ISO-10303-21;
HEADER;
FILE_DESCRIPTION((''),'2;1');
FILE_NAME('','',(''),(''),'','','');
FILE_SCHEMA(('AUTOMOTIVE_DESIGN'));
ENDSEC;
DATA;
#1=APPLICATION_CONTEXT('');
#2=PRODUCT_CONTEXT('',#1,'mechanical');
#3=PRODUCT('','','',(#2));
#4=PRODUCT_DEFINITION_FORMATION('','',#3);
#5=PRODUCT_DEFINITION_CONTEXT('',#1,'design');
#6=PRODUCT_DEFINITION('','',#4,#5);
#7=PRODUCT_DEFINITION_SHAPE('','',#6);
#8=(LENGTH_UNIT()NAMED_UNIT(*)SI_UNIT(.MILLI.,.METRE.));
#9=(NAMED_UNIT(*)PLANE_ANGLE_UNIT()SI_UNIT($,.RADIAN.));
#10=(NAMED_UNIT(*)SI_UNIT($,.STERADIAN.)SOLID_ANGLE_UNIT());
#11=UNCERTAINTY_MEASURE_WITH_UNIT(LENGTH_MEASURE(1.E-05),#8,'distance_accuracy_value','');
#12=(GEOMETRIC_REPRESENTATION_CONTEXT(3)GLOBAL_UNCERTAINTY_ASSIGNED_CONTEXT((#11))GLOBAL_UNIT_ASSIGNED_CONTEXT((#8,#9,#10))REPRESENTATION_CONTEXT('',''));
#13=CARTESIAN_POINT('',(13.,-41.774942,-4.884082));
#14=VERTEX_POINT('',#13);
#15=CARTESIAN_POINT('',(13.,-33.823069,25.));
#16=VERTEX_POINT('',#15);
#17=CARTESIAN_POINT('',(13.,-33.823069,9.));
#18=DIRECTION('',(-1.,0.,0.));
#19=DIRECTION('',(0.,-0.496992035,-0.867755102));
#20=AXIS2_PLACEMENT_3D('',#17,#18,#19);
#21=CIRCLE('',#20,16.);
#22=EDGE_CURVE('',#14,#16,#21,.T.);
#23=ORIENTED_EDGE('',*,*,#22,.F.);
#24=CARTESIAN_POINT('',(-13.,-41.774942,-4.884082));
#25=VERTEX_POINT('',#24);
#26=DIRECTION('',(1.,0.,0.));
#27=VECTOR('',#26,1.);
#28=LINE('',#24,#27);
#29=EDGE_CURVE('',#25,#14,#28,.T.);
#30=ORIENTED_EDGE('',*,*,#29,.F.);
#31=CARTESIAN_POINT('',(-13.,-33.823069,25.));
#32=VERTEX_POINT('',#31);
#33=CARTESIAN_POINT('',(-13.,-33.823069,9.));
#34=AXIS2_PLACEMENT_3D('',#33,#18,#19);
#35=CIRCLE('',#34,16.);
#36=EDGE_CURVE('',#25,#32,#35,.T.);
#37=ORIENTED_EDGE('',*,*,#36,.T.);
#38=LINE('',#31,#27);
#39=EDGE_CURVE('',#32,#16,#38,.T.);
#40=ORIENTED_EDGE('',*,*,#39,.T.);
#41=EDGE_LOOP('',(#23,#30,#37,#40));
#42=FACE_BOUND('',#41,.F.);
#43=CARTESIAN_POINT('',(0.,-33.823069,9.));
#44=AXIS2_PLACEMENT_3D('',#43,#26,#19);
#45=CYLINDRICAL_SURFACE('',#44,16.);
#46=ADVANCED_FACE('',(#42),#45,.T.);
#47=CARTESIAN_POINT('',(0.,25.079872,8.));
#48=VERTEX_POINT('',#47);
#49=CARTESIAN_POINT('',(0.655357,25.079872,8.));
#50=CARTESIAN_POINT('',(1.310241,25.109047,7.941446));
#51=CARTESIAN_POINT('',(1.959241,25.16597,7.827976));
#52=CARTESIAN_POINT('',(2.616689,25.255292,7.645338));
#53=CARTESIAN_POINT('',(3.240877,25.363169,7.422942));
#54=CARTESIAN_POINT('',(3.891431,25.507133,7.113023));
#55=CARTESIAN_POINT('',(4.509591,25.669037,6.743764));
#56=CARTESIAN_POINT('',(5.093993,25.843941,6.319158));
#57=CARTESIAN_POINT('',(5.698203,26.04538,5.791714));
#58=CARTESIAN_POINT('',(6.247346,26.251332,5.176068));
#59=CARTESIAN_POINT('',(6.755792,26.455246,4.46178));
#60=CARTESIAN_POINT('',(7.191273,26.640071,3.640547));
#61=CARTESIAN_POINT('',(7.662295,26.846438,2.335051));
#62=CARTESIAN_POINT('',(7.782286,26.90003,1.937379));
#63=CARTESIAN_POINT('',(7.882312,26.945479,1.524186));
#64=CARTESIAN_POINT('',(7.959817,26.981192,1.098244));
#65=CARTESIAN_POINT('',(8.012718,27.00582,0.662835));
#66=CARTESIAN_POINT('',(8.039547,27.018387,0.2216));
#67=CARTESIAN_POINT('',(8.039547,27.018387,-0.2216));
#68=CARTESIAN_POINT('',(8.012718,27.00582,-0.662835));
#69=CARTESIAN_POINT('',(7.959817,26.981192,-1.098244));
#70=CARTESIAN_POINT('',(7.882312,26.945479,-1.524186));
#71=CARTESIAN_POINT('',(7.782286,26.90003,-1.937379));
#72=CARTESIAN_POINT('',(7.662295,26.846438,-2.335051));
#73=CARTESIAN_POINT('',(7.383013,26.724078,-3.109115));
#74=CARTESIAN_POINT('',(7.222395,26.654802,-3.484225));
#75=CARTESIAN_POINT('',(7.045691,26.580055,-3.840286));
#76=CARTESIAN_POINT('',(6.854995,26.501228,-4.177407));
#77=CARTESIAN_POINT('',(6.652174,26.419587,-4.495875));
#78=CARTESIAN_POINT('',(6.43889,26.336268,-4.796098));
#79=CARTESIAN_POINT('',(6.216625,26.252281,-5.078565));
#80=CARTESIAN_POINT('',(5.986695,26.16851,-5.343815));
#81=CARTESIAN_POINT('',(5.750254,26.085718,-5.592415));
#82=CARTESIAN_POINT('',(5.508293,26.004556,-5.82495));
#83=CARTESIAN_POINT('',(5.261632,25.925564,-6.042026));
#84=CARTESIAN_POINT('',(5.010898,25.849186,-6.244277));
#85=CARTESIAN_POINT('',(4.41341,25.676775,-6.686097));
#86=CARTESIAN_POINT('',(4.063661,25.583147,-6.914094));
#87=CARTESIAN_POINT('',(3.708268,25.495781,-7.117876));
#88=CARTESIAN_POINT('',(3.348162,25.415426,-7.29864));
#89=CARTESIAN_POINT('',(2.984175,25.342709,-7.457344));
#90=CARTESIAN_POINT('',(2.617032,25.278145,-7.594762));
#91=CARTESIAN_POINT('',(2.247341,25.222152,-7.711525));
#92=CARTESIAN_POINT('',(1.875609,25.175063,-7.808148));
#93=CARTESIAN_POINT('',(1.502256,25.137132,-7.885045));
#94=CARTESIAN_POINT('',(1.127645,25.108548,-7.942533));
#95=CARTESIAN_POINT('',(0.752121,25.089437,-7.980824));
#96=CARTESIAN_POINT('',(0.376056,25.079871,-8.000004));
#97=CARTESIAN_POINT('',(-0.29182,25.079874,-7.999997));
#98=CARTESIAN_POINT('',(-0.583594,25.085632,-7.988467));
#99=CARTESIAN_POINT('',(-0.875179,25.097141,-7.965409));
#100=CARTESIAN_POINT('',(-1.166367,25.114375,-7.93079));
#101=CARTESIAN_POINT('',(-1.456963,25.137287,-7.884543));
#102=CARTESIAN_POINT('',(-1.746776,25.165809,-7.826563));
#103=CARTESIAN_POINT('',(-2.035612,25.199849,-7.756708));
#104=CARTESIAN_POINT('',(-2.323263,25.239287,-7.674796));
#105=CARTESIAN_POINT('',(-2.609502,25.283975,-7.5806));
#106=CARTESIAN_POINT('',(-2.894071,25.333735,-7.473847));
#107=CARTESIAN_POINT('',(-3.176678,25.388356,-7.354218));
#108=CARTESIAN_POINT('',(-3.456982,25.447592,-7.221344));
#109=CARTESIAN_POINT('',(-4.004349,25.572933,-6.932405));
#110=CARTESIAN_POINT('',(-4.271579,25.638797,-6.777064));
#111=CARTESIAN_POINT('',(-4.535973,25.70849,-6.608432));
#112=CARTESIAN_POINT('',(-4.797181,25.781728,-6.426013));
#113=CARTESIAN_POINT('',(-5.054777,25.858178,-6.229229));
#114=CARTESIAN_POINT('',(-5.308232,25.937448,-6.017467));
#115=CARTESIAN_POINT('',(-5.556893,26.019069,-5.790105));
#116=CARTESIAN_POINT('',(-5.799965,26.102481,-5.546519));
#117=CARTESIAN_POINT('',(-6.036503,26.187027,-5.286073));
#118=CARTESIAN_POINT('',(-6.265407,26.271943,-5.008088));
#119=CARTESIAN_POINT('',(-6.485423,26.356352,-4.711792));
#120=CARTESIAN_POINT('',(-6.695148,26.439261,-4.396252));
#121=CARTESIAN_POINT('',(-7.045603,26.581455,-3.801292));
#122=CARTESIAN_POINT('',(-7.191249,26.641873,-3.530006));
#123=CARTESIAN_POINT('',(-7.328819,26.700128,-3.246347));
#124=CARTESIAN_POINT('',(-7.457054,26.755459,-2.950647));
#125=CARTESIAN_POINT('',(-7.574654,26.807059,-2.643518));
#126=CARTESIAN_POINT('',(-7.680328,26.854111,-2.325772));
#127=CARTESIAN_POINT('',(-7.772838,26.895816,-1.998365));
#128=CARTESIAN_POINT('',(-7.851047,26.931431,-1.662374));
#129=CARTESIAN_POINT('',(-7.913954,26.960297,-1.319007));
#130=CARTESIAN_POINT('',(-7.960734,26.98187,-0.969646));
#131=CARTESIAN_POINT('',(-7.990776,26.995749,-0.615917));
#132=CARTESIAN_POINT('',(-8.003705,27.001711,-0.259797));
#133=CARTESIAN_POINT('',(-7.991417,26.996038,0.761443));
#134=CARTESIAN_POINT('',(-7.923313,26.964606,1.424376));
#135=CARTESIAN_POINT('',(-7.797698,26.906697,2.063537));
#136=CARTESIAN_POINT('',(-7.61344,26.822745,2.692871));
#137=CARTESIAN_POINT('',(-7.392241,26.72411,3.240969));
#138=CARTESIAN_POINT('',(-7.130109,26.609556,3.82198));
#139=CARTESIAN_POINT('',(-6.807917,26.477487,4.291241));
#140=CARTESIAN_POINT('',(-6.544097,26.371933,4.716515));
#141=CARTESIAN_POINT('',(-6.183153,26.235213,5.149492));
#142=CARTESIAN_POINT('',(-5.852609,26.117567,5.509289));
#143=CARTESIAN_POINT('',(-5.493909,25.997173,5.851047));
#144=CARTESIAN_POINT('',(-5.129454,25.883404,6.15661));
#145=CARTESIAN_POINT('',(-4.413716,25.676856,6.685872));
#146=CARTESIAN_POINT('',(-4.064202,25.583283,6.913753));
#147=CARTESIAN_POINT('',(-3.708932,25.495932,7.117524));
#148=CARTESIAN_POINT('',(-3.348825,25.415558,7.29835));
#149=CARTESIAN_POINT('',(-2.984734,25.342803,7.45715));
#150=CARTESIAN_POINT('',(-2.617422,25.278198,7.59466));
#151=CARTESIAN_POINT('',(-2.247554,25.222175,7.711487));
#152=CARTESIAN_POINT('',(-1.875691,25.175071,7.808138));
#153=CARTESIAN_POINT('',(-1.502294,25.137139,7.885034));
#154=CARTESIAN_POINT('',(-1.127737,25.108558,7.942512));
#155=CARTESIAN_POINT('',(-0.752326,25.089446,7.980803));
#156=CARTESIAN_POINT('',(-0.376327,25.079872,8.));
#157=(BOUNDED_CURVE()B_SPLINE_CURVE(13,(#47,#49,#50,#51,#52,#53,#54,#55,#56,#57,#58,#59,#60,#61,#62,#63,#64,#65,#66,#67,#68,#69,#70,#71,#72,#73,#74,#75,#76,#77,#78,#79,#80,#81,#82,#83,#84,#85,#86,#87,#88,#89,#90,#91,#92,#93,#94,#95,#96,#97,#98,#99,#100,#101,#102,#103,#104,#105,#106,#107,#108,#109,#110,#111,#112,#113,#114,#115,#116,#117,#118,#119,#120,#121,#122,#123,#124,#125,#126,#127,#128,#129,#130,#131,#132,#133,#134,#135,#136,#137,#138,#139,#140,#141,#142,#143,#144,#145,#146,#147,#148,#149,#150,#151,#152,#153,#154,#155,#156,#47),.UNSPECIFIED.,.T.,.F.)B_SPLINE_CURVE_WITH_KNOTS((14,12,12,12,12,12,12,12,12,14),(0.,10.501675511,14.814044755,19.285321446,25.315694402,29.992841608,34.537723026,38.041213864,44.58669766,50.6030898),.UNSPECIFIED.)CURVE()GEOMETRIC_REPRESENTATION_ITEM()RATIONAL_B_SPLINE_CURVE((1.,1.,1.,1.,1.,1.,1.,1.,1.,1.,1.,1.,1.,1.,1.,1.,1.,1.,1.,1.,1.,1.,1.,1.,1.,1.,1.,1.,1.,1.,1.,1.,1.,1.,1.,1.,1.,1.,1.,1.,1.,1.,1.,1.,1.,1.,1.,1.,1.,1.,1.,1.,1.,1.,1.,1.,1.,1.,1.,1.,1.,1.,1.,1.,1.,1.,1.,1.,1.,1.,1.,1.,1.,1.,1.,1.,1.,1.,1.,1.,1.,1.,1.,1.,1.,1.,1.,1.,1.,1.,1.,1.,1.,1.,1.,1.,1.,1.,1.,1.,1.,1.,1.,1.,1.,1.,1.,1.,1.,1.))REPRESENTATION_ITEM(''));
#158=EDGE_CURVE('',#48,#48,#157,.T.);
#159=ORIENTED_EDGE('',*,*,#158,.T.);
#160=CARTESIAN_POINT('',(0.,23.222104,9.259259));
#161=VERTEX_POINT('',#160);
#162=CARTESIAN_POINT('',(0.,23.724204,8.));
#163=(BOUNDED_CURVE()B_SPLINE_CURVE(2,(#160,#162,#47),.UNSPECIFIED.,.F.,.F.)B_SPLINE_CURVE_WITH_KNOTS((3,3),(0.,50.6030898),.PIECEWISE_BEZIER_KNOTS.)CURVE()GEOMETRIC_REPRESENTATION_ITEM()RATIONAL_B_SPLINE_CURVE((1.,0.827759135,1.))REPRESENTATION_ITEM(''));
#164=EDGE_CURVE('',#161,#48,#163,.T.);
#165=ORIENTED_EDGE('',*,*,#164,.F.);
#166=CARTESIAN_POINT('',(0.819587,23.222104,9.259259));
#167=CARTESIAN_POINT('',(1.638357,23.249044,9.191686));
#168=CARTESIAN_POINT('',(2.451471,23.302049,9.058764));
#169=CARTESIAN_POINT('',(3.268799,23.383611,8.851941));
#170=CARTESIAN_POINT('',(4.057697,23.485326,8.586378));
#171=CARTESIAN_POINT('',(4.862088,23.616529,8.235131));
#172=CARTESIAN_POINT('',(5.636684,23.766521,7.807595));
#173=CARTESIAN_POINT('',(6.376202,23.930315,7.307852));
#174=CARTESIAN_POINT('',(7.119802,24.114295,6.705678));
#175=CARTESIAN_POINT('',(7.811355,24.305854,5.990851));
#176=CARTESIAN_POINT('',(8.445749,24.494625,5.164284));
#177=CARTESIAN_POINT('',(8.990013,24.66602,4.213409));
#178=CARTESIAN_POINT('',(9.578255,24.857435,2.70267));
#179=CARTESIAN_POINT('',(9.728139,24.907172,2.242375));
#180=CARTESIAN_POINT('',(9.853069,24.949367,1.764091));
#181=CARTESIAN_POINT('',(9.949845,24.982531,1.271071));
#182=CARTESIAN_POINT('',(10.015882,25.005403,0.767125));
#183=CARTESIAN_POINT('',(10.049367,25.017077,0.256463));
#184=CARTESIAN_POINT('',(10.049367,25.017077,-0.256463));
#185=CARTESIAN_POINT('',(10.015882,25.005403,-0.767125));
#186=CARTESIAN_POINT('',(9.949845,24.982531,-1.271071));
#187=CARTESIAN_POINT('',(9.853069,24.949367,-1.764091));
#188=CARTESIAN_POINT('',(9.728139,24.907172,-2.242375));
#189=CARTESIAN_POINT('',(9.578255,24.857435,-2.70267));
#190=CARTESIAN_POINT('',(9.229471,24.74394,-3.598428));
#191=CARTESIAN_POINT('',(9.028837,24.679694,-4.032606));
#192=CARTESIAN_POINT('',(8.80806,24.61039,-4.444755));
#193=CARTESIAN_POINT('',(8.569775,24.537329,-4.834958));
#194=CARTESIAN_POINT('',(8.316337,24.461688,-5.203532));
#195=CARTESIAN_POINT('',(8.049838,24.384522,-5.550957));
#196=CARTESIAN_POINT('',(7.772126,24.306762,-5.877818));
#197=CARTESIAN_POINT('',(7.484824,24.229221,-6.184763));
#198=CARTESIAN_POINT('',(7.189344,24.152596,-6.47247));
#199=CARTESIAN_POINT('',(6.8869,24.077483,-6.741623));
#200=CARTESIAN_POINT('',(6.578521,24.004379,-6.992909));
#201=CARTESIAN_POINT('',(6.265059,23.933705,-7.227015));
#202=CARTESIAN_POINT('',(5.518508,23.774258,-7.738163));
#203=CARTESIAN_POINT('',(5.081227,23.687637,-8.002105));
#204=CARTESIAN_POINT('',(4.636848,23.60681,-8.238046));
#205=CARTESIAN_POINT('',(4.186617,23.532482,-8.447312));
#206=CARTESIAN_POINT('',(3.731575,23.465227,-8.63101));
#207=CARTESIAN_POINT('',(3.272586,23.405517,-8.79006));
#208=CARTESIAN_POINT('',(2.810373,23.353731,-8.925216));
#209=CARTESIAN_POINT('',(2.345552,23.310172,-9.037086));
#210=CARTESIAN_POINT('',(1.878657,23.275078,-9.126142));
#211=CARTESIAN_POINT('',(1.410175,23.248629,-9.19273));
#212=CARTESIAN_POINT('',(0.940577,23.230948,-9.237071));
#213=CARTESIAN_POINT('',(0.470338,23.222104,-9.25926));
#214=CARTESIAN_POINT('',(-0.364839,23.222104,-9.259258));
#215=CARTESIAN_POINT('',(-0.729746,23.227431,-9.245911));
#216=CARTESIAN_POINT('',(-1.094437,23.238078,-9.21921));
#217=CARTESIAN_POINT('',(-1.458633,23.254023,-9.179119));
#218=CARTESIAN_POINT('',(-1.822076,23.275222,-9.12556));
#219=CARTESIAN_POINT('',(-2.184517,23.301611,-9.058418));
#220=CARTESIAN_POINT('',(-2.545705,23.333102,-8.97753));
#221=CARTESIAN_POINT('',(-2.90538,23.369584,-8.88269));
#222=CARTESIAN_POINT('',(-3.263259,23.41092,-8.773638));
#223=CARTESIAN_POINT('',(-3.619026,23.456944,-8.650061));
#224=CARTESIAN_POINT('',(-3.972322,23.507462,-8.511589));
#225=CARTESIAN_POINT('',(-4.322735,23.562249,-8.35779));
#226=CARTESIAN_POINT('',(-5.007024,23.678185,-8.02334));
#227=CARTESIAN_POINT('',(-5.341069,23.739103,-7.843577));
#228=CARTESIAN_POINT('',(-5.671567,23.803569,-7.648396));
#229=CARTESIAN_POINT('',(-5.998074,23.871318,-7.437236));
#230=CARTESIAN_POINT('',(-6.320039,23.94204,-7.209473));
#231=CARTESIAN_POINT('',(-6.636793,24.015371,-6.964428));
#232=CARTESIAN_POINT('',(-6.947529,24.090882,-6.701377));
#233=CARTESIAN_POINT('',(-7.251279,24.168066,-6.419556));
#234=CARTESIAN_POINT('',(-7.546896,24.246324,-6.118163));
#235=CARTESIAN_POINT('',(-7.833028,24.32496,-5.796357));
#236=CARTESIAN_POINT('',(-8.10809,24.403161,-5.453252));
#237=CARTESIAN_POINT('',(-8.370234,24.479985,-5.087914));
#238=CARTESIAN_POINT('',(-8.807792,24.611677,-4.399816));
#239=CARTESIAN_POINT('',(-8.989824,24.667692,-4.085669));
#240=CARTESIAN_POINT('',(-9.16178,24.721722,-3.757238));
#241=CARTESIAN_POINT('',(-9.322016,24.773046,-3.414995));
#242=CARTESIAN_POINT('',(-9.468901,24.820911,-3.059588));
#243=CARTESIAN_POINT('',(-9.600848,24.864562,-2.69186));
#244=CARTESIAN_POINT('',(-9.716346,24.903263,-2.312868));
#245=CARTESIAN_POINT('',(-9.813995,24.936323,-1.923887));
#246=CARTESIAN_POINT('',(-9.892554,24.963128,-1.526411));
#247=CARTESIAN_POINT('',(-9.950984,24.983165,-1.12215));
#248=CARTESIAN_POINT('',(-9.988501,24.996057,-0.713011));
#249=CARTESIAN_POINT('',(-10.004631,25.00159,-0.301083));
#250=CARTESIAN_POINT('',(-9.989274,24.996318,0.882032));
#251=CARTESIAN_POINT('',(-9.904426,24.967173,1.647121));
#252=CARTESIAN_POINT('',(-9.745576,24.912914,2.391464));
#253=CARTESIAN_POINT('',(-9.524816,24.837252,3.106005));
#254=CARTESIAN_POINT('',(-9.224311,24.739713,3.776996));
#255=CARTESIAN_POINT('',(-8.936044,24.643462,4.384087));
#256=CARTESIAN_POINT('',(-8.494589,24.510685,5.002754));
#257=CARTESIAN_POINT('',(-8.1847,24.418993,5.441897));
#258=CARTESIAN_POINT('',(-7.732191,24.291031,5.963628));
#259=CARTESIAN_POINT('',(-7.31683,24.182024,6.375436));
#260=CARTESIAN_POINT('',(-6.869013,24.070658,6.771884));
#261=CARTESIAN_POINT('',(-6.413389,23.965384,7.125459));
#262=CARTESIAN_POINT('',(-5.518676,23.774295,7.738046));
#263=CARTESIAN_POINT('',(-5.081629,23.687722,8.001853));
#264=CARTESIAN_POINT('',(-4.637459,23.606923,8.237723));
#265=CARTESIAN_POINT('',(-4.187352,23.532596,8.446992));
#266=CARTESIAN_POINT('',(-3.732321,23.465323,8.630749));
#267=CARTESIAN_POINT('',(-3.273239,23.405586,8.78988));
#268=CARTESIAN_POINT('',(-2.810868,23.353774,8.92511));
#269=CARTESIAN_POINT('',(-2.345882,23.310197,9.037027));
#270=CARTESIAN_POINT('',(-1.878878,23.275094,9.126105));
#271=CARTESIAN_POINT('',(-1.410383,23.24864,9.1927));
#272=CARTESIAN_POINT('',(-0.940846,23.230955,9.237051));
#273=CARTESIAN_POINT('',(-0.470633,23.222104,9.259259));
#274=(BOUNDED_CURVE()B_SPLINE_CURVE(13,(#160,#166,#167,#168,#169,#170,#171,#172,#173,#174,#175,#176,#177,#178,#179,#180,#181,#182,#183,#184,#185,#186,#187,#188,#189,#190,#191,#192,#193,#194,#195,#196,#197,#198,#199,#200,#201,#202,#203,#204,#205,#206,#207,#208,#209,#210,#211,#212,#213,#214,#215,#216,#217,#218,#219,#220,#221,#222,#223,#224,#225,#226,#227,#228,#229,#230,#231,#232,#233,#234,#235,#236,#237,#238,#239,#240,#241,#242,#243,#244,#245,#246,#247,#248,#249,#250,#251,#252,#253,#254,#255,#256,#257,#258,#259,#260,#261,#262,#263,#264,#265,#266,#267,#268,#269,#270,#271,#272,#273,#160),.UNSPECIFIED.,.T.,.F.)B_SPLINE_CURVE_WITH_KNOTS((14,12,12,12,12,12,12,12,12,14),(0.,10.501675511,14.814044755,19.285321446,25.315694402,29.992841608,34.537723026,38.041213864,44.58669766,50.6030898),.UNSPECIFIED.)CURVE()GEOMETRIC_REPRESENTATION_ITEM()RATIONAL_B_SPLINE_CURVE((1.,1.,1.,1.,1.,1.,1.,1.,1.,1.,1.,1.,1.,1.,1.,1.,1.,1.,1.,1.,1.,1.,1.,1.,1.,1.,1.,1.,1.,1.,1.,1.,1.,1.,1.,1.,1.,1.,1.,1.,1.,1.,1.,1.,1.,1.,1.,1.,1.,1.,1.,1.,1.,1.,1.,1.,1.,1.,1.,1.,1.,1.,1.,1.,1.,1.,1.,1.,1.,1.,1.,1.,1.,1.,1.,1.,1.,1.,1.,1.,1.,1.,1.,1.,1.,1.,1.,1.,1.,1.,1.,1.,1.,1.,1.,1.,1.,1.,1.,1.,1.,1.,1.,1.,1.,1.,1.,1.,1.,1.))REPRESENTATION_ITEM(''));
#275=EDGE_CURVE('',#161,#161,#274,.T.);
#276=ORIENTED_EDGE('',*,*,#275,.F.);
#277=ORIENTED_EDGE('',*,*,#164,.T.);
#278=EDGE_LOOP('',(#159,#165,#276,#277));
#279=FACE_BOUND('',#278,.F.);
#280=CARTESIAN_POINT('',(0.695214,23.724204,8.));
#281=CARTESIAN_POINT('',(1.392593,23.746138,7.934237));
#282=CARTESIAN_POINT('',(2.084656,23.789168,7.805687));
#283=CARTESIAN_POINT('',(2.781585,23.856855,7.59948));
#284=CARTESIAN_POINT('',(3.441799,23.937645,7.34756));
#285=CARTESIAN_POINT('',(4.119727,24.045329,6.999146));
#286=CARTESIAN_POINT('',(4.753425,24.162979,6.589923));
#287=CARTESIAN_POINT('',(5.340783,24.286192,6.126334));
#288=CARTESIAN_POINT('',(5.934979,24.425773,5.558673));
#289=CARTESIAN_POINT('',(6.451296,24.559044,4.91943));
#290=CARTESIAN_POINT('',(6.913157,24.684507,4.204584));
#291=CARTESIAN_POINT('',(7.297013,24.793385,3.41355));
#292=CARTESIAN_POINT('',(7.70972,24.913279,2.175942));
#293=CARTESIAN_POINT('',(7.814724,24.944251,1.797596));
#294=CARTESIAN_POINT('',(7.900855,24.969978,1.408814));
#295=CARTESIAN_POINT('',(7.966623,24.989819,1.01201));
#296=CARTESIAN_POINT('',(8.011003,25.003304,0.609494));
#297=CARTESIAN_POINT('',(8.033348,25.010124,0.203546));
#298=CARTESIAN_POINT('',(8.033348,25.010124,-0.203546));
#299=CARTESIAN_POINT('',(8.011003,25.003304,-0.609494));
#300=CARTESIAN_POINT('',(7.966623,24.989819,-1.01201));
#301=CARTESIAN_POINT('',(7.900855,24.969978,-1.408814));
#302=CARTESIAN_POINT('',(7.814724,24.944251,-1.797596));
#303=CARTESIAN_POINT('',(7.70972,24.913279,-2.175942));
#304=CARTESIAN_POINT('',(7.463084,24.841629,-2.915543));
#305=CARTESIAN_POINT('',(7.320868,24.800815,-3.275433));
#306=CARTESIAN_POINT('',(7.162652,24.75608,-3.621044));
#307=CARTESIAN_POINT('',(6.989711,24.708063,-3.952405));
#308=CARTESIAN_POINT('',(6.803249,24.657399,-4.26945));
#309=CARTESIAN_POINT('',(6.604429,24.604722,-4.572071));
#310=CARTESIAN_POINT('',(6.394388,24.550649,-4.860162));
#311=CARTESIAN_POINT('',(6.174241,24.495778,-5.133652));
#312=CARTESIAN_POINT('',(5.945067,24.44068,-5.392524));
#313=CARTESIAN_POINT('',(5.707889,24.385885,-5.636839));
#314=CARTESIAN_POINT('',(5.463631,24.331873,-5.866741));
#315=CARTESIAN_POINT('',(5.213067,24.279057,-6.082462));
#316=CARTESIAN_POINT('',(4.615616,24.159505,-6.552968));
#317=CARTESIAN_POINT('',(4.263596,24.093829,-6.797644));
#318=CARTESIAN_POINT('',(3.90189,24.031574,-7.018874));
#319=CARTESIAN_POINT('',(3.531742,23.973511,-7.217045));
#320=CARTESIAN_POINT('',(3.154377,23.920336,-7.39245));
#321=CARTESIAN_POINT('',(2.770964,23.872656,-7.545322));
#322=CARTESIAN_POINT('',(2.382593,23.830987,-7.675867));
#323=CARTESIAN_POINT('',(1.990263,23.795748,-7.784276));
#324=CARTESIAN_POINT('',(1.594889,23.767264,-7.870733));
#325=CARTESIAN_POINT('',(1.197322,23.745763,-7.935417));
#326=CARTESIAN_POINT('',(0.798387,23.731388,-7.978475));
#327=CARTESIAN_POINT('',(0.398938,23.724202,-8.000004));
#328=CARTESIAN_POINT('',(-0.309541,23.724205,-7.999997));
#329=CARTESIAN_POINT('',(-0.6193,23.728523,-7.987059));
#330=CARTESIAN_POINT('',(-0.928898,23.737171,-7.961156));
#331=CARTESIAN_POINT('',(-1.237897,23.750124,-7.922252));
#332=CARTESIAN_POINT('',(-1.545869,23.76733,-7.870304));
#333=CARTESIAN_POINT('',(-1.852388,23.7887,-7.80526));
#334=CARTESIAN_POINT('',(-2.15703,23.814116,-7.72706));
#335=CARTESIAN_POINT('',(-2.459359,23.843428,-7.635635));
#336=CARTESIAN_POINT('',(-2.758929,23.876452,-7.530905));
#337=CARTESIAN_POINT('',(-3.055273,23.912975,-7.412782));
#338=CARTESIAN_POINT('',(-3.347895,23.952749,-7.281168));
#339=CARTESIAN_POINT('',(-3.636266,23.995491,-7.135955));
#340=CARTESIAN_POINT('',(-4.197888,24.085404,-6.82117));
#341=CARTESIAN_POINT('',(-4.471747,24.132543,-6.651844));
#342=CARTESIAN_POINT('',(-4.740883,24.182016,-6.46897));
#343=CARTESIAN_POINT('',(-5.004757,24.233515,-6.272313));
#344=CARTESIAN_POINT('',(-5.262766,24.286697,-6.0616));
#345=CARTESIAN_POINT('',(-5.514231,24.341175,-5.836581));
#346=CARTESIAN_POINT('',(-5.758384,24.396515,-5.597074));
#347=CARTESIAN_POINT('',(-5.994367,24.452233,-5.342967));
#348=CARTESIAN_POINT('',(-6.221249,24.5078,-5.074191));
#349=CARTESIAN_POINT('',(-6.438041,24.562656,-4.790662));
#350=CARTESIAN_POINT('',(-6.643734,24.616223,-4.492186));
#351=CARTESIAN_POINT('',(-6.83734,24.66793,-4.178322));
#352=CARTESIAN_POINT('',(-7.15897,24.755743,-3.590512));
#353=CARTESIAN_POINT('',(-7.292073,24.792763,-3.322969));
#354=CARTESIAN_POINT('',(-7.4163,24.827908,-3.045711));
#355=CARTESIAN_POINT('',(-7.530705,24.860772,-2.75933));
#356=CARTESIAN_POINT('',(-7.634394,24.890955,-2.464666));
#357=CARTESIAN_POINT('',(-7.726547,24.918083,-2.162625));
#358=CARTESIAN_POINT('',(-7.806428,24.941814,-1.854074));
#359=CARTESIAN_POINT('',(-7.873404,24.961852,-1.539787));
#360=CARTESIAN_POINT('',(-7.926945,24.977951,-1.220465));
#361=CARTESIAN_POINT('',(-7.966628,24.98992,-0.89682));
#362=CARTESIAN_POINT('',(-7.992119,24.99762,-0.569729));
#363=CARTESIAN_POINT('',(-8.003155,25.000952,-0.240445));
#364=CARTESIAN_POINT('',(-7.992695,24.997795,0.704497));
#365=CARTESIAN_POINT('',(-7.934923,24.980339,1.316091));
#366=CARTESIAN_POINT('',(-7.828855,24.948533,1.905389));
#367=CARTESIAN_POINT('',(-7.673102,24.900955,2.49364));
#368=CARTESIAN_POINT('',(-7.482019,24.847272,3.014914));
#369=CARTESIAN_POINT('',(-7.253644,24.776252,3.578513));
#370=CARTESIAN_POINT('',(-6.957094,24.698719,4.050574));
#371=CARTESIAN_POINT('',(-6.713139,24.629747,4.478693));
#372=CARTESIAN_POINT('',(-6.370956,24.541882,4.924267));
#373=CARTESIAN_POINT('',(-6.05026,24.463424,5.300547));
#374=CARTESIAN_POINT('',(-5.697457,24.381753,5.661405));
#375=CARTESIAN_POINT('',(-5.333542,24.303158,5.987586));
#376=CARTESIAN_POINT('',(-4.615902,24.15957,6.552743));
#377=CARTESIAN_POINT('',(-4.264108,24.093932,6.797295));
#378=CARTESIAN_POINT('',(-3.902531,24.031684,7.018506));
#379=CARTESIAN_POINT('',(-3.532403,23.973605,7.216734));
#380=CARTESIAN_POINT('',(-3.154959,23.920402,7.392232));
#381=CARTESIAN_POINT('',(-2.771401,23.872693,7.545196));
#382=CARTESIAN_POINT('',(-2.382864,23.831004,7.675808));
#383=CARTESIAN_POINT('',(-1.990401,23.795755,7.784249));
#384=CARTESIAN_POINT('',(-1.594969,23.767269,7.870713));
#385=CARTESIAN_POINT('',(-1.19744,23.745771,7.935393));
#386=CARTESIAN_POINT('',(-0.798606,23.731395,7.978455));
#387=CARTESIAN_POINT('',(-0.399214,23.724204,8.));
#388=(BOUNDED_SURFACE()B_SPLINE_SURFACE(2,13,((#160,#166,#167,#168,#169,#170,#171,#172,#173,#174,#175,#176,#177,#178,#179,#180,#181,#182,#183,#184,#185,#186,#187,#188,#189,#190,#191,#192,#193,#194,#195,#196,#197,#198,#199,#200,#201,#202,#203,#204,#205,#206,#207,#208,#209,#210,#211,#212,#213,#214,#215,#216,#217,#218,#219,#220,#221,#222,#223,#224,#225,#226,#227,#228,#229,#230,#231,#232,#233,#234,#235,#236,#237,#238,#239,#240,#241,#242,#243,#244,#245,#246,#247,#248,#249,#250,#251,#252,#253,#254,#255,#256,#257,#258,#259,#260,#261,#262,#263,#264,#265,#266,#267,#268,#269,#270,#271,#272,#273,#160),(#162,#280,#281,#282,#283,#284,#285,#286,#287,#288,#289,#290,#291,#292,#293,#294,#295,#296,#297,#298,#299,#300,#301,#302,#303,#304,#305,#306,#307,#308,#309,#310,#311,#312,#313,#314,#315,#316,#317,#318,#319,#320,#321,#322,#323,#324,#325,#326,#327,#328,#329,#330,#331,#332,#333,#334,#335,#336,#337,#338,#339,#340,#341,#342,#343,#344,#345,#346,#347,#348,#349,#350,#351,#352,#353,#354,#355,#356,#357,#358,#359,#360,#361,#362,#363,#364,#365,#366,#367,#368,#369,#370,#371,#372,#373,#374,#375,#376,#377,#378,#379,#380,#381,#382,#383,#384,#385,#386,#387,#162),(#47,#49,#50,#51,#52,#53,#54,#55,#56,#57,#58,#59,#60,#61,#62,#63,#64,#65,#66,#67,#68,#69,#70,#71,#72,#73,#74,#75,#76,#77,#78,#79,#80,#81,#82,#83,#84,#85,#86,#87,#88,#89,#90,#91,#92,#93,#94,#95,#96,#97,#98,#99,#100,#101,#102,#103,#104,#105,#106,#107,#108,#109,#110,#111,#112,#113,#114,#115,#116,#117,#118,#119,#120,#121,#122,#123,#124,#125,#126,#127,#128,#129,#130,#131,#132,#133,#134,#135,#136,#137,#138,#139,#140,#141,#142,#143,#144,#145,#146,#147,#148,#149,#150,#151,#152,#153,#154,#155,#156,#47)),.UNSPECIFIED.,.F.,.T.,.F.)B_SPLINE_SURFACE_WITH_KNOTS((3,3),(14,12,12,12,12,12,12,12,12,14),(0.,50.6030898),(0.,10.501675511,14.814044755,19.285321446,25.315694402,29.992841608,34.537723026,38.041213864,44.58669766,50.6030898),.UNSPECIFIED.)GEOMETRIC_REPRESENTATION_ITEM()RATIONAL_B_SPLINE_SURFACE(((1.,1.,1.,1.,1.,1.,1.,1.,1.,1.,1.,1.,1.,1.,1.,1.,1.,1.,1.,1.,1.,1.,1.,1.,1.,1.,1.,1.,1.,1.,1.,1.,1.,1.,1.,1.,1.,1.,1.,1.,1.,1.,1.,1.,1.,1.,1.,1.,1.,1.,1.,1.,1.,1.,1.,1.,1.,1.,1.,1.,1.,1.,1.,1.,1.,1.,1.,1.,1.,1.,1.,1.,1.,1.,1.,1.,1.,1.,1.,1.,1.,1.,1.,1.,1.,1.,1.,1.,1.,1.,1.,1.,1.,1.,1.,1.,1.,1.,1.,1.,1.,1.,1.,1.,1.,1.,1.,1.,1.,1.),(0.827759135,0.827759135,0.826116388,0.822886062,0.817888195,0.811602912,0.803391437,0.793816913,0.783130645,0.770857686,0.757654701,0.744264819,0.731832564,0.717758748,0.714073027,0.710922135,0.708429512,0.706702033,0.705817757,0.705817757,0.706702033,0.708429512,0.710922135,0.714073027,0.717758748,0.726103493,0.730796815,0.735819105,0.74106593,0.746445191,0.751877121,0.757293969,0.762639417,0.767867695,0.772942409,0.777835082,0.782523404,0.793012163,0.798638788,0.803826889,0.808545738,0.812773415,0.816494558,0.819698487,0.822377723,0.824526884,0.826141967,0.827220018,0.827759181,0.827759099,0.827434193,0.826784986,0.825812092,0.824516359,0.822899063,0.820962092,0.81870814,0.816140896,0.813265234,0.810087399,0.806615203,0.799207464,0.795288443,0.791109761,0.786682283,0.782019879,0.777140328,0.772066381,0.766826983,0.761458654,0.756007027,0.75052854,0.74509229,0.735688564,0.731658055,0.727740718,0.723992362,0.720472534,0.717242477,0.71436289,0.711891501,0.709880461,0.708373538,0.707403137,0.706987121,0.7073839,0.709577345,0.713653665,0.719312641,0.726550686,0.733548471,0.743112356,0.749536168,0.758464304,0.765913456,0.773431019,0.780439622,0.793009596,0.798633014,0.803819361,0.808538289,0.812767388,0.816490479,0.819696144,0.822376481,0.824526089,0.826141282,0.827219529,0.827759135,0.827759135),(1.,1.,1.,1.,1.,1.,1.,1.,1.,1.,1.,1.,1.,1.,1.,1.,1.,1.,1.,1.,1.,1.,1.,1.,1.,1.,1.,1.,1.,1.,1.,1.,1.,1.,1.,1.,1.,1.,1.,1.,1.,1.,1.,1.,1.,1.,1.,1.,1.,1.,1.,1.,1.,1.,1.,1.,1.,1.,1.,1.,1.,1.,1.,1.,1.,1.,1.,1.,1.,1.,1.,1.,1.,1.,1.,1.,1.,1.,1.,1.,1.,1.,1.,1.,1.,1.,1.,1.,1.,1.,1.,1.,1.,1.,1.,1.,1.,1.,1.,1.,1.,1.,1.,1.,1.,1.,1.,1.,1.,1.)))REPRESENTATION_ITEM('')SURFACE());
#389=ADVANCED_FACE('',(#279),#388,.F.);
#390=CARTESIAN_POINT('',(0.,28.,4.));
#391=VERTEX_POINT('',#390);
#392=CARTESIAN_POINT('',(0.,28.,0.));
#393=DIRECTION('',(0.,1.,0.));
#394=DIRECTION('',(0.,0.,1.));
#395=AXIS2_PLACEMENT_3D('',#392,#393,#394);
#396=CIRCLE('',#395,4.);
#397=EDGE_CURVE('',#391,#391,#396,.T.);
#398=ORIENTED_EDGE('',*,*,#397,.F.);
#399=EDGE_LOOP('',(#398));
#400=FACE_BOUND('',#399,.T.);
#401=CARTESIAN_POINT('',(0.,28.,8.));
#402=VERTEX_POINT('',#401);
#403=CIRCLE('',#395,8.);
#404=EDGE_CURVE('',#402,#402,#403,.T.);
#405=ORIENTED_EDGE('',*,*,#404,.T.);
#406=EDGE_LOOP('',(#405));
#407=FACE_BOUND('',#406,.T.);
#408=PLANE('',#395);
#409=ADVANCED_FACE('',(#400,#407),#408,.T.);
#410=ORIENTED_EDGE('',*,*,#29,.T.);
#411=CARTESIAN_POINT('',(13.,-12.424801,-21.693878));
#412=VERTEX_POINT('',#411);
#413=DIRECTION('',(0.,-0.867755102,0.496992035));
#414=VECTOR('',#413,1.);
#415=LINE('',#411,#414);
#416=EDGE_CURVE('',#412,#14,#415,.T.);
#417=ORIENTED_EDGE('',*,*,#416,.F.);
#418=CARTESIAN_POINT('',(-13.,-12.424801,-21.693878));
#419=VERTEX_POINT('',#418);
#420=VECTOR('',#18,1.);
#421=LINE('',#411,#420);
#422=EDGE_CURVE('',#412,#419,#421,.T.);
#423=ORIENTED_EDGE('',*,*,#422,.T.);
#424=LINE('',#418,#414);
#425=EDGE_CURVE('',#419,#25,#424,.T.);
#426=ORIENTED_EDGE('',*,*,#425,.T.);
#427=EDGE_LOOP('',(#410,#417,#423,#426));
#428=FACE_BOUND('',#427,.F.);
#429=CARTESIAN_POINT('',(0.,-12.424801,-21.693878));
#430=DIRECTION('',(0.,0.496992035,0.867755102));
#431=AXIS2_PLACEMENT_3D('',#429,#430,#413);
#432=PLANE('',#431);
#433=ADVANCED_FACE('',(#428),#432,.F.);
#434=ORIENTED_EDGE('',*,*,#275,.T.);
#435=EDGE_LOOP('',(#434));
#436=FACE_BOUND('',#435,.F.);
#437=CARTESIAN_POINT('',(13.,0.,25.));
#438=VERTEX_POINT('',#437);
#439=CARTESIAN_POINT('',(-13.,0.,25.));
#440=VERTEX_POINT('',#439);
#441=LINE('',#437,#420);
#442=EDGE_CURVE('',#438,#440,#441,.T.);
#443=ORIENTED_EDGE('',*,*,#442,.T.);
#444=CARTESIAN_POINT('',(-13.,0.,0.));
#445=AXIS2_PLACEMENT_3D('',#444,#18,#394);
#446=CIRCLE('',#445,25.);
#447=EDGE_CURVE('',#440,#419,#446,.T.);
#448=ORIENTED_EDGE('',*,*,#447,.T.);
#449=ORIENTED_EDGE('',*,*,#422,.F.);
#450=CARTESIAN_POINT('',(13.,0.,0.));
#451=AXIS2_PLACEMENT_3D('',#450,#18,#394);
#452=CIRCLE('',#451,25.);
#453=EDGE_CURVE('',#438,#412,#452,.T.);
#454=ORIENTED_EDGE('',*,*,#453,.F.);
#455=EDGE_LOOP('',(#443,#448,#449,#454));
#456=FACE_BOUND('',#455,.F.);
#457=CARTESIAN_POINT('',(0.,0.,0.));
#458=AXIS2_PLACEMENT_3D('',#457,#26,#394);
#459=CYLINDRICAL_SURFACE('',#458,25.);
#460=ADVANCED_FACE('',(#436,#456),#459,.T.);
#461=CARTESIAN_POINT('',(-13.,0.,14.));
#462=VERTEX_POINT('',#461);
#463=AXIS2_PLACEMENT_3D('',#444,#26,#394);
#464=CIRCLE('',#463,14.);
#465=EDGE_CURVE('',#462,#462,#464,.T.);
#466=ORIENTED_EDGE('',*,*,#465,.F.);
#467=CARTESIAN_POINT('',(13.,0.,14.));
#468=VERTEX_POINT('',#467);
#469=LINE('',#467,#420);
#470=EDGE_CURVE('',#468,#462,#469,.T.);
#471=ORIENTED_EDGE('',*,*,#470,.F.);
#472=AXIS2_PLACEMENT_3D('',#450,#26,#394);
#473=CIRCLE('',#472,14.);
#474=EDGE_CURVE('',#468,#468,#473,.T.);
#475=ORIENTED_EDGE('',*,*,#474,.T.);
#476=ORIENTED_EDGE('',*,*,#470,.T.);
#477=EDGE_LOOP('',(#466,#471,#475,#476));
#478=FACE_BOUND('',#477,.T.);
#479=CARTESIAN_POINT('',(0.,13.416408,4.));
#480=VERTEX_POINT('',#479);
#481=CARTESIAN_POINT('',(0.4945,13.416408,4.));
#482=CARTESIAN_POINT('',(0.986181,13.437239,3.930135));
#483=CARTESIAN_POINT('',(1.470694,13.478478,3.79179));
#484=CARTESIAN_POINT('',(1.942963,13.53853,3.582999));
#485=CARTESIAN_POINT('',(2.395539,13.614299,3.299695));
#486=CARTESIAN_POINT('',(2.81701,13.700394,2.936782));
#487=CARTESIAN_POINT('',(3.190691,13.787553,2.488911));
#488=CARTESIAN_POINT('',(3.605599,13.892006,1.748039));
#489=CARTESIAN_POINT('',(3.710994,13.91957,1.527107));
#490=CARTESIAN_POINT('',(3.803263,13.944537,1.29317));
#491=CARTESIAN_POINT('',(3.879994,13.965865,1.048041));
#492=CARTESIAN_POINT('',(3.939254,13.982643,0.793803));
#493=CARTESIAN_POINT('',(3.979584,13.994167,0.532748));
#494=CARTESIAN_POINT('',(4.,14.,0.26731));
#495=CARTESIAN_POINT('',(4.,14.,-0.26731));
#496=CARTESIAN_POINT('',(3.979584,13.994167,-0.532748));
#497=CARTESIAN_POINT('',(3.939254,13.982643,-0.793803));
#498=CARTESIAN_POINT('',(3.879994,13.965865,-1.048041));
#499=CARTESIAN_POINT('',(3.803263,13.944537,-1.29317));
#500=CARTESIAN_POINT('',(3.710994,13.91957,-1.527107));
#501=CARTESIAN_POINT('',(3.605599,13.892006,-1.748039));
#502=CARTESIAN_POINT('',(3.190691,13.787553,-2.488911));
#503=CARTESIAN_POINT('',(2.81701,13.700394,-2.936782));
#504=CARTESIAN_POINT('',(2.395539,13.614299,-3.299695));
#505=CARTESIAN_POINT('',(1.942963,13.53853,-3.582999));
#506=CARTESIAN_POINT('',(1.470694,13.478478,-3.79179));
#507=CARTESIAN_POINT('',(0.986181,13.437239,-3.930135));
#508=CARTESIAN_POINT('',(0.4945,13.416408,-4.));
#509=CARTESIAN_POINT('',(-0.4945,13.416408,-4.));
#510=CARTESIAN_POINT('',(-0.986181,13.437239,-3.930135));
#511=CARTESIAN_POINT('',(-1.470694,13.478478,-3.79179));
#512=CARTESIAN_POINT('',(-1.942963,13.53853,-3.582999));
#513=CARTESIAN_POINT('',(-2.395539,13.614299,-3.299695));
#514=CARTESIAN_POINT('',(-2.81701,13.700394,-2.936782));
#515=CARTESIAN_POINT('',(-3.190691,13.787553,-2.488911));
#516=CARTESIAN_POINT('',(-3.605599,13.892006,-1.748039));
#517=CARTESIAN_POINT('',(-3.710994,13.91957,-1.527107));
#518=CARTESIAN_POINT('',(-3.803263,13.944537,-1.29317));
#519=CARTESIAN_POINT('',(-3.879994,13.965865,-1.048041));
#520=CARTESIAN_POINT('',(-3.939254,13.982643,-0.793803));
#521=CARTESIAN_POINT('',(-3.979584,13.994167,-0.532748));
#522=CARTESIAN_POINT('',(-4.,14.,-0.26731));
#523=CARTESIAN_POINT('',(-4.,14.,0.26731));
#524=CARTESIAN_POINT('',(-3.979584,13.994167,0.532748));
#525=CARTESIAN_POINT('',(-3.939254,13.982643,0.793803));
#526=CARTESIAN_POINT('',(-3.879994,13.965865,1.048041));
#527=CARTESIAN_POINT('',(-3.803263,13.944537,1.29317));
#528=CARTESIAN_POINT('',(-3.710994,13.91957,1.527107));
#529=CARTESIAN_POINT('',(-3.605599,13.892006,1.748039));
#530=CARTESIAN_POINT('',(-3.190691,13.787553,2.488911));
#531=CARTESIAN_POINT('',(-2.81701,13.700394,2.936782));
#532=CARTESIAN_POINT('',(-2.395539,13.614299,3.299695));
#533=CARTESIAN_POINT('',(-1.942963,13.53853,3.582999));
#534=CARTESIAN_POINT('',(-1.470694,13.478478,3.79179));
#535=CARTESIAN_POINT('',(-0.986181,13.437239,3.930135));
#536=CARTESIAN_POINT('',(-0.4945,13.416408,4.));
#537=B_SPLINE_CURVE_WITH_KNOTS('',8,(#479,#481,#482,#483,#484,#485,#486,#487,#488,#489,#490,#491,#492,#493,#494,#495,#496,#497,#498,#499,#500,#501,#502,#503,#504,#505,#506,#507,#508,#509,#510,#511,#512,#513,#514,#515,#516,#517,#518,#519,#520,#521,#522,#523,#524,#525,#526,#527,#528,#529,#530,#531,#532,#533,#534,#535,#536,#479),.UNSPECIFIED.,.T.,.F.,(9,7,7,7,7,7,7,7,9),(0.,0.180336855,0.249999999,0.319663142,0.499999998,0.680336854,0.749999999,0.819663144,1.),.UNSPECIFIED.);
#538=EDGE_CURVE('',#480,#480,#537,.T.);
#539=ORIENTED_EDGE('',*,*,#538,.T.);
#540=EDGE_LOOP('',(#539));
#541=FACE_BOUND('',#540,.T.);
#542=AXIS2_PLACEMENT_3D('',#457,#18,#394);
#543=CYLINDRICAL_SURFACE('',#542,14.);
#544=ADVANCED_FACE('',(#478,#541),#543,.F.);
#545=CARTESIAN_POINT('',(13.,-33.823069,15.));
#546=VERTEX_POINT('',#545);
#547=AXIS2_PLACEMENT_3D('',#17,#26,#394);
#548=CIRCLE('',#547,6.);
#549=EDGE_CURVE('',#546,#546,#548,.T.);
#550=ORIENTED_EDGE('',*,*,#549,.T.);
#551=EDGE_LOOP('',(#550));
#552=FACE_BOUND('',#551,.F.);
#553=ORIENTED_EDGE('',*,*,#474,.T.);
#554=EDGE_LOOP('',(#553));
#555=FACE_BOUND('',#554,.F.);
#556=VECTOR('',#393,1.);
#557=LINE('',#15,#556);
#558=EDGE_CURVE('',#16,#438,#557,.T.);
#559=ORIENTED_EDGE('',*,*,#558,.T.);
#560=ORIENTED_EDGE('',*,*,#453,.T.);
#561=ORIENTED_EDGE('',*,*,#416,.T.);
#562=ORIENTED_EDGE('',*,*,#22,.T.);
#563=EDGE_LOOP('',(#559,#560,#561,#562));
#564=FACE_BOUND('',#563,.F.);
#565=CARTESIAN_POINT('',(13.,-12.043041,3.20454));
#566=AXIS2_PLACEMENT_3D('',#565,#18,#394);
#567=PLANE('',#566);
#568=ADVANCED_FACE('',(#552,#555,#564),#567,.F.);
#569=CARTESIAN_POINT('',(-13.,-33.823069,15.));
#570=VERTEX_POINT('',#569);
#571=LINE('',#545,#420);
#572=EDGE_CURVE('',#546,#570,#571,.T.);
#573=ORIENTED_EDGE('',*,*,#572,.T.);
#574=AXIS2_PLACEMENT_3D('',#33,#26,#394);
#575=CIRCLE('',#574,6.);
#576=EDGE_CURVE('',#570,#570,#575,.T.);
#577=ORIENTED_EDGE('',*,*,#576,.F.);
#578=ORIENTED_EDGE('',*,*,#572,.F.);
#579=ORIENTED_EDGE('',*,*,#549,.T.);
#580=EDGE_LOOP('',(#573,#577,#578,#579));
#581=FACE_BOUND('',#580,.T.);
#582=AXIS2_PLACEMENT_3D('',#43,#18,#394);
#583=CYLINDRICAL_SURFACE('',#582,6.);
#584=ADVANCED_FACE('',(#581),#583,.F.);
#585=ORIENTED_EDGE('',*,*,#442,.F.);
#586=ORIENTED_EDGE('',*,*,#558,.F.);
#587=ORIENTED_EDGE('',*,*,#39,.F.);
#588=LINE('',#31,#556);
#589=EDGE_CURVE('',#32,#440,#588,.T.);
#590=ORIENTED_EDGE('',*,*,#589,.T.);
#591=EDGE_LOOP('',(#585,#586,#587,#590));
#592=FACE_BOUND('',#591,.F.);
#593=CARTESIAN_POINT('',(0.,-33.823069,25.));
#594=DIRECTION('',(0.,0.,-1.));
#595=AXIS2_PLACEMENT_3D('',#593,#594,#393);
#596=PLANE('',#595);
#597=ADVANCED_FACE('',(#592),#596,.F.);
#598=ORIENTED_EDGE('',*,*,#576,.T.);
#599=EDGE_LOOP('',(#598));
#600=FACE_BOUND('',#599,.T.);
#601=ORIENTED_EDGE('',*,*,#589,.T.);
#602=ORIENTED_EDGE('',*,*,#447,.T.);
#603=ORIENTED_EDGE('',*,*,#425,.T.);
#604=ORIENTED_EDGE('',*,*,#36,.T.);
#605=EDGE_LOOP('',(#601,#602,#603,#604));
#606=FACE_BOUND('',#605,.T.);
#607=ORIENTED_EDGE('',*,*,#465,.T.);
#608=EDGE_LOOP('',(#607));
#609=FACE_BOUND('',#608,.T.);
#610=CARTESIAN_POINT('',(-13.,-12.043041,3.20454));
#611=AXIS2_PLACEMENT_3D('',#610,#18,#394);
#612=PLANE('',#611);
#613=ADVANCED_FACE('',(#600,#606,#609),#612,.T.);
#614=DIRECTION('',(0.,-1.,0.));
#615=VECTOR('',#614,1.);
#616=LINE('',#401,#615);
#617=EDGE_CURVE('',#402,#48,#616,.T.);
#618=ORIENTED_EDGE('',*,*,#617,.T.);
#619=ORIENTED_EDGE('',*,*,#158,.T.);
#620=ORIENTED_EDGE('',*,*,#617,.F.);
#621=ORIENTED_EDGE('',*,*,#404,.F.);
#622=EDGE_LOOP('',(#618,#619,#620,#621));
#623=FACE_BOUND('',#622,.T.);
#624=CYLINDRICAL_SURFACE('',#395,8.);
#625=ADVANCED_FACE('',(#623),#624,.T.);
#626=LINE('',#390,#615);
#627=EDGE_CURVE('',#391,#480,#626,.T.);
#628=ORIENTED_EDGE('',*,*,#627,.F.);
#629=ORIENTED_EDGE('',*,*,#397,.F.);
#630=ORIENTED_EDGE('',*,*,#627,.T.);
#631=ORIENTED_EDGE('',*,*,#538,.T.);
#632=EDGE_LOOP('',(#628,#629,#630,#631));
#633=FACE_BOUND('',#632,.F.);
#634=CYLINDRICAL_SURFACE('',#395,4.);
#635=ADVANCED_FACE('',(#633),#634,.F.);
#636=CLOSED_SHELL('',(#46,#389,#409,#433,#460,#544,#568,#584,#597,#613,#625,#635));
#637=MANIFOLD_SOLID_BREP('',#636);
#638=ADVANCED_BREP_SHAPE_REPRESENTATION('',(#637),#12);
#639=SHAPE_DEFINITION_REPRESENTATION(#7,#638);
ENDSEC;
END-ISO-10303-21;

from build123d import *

# Parameters (mm, degrees)
SKETCH_1_R               = 14
SKETCH_1_R_2             = 6
EXTRUDE_1_DEPTH          = 13
EXTRUDE_2_REACH          = 84.767
EXTRUDE_2_END_RADIUS     = 25
SKETCH_2_R               = 8
CUT_EXTRUDE_3_REACH      = 84.767
CUT_EXTRUDE_3_END_RADIUS = 14
SKETCH_3_R               = 4
FILLET_1_R               = 2


with BuildPart() as part:
    # 草圖1 → 伸長1 (new, symmetric)
    with BuildSketch(Plane(origin=(0, 0, 0), x_dir=(0, 0, -1), z_dir=(1, 0, 0))):
        with BuildLine():
            Line((-25, -33.823069051), (-25, 0))
            ThreePointArc((-25, 0), (6.428571429, 24.159335036), (21.693877551, -12.424800876))
            Line((21.693877551, -12.424800876), (4.884081633, -41.774941611))
            ThreePointArc((4.884081633, -41.774941611), (-13.114285714, -49.285043474), (-25, -33.823069051))
        make_face()
        with Locations(Location((0, 0, 0), (0, 0, 180))):
            Circle(SKETCH_1_R, mode=Mode.SUBTRACT)
        with Locations(Location((-9, -33.823069051, 0), (0, 0, 180))):
            Circle(SKETCH_1_R_2, mode=Mode.SUBTRACT)
    extrude(amount=EXTRUDE_1_DEPTH, both=True)

    # 伸長2: up to this cylinder (the profile starts outside it)
    extrude_2_end = Plane(origin=(0, 0, 0), z_dir=(-1, 0, 0)) * Cylinder(EXTRUDE_2_END_RADIUS, 220.534, mode=Mode.PRIVATE)
    # 草圖2 → 伸長2 (add, up to the surface)
    with BuildSketch(Plane(origin=(0, 28, 0), x_dir=(-1, 0, 0), z_dir=(0, 1, 0)), mode=Mode.PRIVATE) as extrude_2_sk1:
        with Locations(Location((0, 0, 0), (0, 0, 90))):
            Circle(SKETCH_2_R)
    extrude_2_tool1 = extrude(extrude_2_sk1.sketch, amount=-EXTRUDE_2_REACH, mode=Mode.PRIVATE) - extrude_2_end
    add(extrude_2_tool1.solids().sort_by_distance((0, 28, 0))[0])

    # 伸長3: up to this cylinder (the profile starts outside it)
    cut_extrude_3_end = Plane(origin=(0, 0, 0), z_dir=(-1, 0, 0)) * Cylinder(CUT_EXTRUDE_3_END_RADIUS, 198.534, mode=Mode.PRIVATE)
    # 草圖3 → 伸長3 (cut, up to the surface)
    with BuildSketch(Plane(origin=(0, 28, 0), x_dir=(1, 0, 0), z_dir=(0, 1, 0)), mode=Mode.PRIVATE) as cut_extrude_3_sk1:
        with Locations(Location((0, 0, 0), (0, 0, 270))):
            Circle(SKETCH_3_R)
    cut_extrude_3_tool1 = extrude(cut_extrude_3_sk1.sketch, amount=-CUT_EXTRUDE_3_REACH, mode=Mode.PRIVATE) - cut_extrude_3_end
    add(cut_extrude_3_tool1.solids().sort_by_distance((0, 28, 0))[0], mode=Mode.SUBTRACT)

    # 圓角1
    fillet_1_edges = [part.edges().sort_by_distance(p)[0] for p in [
        (0, 23.685438565, -8),
    ]]
    fillet(fillet_1_edges, radius=FILLET_1_R)


solid = part.part
